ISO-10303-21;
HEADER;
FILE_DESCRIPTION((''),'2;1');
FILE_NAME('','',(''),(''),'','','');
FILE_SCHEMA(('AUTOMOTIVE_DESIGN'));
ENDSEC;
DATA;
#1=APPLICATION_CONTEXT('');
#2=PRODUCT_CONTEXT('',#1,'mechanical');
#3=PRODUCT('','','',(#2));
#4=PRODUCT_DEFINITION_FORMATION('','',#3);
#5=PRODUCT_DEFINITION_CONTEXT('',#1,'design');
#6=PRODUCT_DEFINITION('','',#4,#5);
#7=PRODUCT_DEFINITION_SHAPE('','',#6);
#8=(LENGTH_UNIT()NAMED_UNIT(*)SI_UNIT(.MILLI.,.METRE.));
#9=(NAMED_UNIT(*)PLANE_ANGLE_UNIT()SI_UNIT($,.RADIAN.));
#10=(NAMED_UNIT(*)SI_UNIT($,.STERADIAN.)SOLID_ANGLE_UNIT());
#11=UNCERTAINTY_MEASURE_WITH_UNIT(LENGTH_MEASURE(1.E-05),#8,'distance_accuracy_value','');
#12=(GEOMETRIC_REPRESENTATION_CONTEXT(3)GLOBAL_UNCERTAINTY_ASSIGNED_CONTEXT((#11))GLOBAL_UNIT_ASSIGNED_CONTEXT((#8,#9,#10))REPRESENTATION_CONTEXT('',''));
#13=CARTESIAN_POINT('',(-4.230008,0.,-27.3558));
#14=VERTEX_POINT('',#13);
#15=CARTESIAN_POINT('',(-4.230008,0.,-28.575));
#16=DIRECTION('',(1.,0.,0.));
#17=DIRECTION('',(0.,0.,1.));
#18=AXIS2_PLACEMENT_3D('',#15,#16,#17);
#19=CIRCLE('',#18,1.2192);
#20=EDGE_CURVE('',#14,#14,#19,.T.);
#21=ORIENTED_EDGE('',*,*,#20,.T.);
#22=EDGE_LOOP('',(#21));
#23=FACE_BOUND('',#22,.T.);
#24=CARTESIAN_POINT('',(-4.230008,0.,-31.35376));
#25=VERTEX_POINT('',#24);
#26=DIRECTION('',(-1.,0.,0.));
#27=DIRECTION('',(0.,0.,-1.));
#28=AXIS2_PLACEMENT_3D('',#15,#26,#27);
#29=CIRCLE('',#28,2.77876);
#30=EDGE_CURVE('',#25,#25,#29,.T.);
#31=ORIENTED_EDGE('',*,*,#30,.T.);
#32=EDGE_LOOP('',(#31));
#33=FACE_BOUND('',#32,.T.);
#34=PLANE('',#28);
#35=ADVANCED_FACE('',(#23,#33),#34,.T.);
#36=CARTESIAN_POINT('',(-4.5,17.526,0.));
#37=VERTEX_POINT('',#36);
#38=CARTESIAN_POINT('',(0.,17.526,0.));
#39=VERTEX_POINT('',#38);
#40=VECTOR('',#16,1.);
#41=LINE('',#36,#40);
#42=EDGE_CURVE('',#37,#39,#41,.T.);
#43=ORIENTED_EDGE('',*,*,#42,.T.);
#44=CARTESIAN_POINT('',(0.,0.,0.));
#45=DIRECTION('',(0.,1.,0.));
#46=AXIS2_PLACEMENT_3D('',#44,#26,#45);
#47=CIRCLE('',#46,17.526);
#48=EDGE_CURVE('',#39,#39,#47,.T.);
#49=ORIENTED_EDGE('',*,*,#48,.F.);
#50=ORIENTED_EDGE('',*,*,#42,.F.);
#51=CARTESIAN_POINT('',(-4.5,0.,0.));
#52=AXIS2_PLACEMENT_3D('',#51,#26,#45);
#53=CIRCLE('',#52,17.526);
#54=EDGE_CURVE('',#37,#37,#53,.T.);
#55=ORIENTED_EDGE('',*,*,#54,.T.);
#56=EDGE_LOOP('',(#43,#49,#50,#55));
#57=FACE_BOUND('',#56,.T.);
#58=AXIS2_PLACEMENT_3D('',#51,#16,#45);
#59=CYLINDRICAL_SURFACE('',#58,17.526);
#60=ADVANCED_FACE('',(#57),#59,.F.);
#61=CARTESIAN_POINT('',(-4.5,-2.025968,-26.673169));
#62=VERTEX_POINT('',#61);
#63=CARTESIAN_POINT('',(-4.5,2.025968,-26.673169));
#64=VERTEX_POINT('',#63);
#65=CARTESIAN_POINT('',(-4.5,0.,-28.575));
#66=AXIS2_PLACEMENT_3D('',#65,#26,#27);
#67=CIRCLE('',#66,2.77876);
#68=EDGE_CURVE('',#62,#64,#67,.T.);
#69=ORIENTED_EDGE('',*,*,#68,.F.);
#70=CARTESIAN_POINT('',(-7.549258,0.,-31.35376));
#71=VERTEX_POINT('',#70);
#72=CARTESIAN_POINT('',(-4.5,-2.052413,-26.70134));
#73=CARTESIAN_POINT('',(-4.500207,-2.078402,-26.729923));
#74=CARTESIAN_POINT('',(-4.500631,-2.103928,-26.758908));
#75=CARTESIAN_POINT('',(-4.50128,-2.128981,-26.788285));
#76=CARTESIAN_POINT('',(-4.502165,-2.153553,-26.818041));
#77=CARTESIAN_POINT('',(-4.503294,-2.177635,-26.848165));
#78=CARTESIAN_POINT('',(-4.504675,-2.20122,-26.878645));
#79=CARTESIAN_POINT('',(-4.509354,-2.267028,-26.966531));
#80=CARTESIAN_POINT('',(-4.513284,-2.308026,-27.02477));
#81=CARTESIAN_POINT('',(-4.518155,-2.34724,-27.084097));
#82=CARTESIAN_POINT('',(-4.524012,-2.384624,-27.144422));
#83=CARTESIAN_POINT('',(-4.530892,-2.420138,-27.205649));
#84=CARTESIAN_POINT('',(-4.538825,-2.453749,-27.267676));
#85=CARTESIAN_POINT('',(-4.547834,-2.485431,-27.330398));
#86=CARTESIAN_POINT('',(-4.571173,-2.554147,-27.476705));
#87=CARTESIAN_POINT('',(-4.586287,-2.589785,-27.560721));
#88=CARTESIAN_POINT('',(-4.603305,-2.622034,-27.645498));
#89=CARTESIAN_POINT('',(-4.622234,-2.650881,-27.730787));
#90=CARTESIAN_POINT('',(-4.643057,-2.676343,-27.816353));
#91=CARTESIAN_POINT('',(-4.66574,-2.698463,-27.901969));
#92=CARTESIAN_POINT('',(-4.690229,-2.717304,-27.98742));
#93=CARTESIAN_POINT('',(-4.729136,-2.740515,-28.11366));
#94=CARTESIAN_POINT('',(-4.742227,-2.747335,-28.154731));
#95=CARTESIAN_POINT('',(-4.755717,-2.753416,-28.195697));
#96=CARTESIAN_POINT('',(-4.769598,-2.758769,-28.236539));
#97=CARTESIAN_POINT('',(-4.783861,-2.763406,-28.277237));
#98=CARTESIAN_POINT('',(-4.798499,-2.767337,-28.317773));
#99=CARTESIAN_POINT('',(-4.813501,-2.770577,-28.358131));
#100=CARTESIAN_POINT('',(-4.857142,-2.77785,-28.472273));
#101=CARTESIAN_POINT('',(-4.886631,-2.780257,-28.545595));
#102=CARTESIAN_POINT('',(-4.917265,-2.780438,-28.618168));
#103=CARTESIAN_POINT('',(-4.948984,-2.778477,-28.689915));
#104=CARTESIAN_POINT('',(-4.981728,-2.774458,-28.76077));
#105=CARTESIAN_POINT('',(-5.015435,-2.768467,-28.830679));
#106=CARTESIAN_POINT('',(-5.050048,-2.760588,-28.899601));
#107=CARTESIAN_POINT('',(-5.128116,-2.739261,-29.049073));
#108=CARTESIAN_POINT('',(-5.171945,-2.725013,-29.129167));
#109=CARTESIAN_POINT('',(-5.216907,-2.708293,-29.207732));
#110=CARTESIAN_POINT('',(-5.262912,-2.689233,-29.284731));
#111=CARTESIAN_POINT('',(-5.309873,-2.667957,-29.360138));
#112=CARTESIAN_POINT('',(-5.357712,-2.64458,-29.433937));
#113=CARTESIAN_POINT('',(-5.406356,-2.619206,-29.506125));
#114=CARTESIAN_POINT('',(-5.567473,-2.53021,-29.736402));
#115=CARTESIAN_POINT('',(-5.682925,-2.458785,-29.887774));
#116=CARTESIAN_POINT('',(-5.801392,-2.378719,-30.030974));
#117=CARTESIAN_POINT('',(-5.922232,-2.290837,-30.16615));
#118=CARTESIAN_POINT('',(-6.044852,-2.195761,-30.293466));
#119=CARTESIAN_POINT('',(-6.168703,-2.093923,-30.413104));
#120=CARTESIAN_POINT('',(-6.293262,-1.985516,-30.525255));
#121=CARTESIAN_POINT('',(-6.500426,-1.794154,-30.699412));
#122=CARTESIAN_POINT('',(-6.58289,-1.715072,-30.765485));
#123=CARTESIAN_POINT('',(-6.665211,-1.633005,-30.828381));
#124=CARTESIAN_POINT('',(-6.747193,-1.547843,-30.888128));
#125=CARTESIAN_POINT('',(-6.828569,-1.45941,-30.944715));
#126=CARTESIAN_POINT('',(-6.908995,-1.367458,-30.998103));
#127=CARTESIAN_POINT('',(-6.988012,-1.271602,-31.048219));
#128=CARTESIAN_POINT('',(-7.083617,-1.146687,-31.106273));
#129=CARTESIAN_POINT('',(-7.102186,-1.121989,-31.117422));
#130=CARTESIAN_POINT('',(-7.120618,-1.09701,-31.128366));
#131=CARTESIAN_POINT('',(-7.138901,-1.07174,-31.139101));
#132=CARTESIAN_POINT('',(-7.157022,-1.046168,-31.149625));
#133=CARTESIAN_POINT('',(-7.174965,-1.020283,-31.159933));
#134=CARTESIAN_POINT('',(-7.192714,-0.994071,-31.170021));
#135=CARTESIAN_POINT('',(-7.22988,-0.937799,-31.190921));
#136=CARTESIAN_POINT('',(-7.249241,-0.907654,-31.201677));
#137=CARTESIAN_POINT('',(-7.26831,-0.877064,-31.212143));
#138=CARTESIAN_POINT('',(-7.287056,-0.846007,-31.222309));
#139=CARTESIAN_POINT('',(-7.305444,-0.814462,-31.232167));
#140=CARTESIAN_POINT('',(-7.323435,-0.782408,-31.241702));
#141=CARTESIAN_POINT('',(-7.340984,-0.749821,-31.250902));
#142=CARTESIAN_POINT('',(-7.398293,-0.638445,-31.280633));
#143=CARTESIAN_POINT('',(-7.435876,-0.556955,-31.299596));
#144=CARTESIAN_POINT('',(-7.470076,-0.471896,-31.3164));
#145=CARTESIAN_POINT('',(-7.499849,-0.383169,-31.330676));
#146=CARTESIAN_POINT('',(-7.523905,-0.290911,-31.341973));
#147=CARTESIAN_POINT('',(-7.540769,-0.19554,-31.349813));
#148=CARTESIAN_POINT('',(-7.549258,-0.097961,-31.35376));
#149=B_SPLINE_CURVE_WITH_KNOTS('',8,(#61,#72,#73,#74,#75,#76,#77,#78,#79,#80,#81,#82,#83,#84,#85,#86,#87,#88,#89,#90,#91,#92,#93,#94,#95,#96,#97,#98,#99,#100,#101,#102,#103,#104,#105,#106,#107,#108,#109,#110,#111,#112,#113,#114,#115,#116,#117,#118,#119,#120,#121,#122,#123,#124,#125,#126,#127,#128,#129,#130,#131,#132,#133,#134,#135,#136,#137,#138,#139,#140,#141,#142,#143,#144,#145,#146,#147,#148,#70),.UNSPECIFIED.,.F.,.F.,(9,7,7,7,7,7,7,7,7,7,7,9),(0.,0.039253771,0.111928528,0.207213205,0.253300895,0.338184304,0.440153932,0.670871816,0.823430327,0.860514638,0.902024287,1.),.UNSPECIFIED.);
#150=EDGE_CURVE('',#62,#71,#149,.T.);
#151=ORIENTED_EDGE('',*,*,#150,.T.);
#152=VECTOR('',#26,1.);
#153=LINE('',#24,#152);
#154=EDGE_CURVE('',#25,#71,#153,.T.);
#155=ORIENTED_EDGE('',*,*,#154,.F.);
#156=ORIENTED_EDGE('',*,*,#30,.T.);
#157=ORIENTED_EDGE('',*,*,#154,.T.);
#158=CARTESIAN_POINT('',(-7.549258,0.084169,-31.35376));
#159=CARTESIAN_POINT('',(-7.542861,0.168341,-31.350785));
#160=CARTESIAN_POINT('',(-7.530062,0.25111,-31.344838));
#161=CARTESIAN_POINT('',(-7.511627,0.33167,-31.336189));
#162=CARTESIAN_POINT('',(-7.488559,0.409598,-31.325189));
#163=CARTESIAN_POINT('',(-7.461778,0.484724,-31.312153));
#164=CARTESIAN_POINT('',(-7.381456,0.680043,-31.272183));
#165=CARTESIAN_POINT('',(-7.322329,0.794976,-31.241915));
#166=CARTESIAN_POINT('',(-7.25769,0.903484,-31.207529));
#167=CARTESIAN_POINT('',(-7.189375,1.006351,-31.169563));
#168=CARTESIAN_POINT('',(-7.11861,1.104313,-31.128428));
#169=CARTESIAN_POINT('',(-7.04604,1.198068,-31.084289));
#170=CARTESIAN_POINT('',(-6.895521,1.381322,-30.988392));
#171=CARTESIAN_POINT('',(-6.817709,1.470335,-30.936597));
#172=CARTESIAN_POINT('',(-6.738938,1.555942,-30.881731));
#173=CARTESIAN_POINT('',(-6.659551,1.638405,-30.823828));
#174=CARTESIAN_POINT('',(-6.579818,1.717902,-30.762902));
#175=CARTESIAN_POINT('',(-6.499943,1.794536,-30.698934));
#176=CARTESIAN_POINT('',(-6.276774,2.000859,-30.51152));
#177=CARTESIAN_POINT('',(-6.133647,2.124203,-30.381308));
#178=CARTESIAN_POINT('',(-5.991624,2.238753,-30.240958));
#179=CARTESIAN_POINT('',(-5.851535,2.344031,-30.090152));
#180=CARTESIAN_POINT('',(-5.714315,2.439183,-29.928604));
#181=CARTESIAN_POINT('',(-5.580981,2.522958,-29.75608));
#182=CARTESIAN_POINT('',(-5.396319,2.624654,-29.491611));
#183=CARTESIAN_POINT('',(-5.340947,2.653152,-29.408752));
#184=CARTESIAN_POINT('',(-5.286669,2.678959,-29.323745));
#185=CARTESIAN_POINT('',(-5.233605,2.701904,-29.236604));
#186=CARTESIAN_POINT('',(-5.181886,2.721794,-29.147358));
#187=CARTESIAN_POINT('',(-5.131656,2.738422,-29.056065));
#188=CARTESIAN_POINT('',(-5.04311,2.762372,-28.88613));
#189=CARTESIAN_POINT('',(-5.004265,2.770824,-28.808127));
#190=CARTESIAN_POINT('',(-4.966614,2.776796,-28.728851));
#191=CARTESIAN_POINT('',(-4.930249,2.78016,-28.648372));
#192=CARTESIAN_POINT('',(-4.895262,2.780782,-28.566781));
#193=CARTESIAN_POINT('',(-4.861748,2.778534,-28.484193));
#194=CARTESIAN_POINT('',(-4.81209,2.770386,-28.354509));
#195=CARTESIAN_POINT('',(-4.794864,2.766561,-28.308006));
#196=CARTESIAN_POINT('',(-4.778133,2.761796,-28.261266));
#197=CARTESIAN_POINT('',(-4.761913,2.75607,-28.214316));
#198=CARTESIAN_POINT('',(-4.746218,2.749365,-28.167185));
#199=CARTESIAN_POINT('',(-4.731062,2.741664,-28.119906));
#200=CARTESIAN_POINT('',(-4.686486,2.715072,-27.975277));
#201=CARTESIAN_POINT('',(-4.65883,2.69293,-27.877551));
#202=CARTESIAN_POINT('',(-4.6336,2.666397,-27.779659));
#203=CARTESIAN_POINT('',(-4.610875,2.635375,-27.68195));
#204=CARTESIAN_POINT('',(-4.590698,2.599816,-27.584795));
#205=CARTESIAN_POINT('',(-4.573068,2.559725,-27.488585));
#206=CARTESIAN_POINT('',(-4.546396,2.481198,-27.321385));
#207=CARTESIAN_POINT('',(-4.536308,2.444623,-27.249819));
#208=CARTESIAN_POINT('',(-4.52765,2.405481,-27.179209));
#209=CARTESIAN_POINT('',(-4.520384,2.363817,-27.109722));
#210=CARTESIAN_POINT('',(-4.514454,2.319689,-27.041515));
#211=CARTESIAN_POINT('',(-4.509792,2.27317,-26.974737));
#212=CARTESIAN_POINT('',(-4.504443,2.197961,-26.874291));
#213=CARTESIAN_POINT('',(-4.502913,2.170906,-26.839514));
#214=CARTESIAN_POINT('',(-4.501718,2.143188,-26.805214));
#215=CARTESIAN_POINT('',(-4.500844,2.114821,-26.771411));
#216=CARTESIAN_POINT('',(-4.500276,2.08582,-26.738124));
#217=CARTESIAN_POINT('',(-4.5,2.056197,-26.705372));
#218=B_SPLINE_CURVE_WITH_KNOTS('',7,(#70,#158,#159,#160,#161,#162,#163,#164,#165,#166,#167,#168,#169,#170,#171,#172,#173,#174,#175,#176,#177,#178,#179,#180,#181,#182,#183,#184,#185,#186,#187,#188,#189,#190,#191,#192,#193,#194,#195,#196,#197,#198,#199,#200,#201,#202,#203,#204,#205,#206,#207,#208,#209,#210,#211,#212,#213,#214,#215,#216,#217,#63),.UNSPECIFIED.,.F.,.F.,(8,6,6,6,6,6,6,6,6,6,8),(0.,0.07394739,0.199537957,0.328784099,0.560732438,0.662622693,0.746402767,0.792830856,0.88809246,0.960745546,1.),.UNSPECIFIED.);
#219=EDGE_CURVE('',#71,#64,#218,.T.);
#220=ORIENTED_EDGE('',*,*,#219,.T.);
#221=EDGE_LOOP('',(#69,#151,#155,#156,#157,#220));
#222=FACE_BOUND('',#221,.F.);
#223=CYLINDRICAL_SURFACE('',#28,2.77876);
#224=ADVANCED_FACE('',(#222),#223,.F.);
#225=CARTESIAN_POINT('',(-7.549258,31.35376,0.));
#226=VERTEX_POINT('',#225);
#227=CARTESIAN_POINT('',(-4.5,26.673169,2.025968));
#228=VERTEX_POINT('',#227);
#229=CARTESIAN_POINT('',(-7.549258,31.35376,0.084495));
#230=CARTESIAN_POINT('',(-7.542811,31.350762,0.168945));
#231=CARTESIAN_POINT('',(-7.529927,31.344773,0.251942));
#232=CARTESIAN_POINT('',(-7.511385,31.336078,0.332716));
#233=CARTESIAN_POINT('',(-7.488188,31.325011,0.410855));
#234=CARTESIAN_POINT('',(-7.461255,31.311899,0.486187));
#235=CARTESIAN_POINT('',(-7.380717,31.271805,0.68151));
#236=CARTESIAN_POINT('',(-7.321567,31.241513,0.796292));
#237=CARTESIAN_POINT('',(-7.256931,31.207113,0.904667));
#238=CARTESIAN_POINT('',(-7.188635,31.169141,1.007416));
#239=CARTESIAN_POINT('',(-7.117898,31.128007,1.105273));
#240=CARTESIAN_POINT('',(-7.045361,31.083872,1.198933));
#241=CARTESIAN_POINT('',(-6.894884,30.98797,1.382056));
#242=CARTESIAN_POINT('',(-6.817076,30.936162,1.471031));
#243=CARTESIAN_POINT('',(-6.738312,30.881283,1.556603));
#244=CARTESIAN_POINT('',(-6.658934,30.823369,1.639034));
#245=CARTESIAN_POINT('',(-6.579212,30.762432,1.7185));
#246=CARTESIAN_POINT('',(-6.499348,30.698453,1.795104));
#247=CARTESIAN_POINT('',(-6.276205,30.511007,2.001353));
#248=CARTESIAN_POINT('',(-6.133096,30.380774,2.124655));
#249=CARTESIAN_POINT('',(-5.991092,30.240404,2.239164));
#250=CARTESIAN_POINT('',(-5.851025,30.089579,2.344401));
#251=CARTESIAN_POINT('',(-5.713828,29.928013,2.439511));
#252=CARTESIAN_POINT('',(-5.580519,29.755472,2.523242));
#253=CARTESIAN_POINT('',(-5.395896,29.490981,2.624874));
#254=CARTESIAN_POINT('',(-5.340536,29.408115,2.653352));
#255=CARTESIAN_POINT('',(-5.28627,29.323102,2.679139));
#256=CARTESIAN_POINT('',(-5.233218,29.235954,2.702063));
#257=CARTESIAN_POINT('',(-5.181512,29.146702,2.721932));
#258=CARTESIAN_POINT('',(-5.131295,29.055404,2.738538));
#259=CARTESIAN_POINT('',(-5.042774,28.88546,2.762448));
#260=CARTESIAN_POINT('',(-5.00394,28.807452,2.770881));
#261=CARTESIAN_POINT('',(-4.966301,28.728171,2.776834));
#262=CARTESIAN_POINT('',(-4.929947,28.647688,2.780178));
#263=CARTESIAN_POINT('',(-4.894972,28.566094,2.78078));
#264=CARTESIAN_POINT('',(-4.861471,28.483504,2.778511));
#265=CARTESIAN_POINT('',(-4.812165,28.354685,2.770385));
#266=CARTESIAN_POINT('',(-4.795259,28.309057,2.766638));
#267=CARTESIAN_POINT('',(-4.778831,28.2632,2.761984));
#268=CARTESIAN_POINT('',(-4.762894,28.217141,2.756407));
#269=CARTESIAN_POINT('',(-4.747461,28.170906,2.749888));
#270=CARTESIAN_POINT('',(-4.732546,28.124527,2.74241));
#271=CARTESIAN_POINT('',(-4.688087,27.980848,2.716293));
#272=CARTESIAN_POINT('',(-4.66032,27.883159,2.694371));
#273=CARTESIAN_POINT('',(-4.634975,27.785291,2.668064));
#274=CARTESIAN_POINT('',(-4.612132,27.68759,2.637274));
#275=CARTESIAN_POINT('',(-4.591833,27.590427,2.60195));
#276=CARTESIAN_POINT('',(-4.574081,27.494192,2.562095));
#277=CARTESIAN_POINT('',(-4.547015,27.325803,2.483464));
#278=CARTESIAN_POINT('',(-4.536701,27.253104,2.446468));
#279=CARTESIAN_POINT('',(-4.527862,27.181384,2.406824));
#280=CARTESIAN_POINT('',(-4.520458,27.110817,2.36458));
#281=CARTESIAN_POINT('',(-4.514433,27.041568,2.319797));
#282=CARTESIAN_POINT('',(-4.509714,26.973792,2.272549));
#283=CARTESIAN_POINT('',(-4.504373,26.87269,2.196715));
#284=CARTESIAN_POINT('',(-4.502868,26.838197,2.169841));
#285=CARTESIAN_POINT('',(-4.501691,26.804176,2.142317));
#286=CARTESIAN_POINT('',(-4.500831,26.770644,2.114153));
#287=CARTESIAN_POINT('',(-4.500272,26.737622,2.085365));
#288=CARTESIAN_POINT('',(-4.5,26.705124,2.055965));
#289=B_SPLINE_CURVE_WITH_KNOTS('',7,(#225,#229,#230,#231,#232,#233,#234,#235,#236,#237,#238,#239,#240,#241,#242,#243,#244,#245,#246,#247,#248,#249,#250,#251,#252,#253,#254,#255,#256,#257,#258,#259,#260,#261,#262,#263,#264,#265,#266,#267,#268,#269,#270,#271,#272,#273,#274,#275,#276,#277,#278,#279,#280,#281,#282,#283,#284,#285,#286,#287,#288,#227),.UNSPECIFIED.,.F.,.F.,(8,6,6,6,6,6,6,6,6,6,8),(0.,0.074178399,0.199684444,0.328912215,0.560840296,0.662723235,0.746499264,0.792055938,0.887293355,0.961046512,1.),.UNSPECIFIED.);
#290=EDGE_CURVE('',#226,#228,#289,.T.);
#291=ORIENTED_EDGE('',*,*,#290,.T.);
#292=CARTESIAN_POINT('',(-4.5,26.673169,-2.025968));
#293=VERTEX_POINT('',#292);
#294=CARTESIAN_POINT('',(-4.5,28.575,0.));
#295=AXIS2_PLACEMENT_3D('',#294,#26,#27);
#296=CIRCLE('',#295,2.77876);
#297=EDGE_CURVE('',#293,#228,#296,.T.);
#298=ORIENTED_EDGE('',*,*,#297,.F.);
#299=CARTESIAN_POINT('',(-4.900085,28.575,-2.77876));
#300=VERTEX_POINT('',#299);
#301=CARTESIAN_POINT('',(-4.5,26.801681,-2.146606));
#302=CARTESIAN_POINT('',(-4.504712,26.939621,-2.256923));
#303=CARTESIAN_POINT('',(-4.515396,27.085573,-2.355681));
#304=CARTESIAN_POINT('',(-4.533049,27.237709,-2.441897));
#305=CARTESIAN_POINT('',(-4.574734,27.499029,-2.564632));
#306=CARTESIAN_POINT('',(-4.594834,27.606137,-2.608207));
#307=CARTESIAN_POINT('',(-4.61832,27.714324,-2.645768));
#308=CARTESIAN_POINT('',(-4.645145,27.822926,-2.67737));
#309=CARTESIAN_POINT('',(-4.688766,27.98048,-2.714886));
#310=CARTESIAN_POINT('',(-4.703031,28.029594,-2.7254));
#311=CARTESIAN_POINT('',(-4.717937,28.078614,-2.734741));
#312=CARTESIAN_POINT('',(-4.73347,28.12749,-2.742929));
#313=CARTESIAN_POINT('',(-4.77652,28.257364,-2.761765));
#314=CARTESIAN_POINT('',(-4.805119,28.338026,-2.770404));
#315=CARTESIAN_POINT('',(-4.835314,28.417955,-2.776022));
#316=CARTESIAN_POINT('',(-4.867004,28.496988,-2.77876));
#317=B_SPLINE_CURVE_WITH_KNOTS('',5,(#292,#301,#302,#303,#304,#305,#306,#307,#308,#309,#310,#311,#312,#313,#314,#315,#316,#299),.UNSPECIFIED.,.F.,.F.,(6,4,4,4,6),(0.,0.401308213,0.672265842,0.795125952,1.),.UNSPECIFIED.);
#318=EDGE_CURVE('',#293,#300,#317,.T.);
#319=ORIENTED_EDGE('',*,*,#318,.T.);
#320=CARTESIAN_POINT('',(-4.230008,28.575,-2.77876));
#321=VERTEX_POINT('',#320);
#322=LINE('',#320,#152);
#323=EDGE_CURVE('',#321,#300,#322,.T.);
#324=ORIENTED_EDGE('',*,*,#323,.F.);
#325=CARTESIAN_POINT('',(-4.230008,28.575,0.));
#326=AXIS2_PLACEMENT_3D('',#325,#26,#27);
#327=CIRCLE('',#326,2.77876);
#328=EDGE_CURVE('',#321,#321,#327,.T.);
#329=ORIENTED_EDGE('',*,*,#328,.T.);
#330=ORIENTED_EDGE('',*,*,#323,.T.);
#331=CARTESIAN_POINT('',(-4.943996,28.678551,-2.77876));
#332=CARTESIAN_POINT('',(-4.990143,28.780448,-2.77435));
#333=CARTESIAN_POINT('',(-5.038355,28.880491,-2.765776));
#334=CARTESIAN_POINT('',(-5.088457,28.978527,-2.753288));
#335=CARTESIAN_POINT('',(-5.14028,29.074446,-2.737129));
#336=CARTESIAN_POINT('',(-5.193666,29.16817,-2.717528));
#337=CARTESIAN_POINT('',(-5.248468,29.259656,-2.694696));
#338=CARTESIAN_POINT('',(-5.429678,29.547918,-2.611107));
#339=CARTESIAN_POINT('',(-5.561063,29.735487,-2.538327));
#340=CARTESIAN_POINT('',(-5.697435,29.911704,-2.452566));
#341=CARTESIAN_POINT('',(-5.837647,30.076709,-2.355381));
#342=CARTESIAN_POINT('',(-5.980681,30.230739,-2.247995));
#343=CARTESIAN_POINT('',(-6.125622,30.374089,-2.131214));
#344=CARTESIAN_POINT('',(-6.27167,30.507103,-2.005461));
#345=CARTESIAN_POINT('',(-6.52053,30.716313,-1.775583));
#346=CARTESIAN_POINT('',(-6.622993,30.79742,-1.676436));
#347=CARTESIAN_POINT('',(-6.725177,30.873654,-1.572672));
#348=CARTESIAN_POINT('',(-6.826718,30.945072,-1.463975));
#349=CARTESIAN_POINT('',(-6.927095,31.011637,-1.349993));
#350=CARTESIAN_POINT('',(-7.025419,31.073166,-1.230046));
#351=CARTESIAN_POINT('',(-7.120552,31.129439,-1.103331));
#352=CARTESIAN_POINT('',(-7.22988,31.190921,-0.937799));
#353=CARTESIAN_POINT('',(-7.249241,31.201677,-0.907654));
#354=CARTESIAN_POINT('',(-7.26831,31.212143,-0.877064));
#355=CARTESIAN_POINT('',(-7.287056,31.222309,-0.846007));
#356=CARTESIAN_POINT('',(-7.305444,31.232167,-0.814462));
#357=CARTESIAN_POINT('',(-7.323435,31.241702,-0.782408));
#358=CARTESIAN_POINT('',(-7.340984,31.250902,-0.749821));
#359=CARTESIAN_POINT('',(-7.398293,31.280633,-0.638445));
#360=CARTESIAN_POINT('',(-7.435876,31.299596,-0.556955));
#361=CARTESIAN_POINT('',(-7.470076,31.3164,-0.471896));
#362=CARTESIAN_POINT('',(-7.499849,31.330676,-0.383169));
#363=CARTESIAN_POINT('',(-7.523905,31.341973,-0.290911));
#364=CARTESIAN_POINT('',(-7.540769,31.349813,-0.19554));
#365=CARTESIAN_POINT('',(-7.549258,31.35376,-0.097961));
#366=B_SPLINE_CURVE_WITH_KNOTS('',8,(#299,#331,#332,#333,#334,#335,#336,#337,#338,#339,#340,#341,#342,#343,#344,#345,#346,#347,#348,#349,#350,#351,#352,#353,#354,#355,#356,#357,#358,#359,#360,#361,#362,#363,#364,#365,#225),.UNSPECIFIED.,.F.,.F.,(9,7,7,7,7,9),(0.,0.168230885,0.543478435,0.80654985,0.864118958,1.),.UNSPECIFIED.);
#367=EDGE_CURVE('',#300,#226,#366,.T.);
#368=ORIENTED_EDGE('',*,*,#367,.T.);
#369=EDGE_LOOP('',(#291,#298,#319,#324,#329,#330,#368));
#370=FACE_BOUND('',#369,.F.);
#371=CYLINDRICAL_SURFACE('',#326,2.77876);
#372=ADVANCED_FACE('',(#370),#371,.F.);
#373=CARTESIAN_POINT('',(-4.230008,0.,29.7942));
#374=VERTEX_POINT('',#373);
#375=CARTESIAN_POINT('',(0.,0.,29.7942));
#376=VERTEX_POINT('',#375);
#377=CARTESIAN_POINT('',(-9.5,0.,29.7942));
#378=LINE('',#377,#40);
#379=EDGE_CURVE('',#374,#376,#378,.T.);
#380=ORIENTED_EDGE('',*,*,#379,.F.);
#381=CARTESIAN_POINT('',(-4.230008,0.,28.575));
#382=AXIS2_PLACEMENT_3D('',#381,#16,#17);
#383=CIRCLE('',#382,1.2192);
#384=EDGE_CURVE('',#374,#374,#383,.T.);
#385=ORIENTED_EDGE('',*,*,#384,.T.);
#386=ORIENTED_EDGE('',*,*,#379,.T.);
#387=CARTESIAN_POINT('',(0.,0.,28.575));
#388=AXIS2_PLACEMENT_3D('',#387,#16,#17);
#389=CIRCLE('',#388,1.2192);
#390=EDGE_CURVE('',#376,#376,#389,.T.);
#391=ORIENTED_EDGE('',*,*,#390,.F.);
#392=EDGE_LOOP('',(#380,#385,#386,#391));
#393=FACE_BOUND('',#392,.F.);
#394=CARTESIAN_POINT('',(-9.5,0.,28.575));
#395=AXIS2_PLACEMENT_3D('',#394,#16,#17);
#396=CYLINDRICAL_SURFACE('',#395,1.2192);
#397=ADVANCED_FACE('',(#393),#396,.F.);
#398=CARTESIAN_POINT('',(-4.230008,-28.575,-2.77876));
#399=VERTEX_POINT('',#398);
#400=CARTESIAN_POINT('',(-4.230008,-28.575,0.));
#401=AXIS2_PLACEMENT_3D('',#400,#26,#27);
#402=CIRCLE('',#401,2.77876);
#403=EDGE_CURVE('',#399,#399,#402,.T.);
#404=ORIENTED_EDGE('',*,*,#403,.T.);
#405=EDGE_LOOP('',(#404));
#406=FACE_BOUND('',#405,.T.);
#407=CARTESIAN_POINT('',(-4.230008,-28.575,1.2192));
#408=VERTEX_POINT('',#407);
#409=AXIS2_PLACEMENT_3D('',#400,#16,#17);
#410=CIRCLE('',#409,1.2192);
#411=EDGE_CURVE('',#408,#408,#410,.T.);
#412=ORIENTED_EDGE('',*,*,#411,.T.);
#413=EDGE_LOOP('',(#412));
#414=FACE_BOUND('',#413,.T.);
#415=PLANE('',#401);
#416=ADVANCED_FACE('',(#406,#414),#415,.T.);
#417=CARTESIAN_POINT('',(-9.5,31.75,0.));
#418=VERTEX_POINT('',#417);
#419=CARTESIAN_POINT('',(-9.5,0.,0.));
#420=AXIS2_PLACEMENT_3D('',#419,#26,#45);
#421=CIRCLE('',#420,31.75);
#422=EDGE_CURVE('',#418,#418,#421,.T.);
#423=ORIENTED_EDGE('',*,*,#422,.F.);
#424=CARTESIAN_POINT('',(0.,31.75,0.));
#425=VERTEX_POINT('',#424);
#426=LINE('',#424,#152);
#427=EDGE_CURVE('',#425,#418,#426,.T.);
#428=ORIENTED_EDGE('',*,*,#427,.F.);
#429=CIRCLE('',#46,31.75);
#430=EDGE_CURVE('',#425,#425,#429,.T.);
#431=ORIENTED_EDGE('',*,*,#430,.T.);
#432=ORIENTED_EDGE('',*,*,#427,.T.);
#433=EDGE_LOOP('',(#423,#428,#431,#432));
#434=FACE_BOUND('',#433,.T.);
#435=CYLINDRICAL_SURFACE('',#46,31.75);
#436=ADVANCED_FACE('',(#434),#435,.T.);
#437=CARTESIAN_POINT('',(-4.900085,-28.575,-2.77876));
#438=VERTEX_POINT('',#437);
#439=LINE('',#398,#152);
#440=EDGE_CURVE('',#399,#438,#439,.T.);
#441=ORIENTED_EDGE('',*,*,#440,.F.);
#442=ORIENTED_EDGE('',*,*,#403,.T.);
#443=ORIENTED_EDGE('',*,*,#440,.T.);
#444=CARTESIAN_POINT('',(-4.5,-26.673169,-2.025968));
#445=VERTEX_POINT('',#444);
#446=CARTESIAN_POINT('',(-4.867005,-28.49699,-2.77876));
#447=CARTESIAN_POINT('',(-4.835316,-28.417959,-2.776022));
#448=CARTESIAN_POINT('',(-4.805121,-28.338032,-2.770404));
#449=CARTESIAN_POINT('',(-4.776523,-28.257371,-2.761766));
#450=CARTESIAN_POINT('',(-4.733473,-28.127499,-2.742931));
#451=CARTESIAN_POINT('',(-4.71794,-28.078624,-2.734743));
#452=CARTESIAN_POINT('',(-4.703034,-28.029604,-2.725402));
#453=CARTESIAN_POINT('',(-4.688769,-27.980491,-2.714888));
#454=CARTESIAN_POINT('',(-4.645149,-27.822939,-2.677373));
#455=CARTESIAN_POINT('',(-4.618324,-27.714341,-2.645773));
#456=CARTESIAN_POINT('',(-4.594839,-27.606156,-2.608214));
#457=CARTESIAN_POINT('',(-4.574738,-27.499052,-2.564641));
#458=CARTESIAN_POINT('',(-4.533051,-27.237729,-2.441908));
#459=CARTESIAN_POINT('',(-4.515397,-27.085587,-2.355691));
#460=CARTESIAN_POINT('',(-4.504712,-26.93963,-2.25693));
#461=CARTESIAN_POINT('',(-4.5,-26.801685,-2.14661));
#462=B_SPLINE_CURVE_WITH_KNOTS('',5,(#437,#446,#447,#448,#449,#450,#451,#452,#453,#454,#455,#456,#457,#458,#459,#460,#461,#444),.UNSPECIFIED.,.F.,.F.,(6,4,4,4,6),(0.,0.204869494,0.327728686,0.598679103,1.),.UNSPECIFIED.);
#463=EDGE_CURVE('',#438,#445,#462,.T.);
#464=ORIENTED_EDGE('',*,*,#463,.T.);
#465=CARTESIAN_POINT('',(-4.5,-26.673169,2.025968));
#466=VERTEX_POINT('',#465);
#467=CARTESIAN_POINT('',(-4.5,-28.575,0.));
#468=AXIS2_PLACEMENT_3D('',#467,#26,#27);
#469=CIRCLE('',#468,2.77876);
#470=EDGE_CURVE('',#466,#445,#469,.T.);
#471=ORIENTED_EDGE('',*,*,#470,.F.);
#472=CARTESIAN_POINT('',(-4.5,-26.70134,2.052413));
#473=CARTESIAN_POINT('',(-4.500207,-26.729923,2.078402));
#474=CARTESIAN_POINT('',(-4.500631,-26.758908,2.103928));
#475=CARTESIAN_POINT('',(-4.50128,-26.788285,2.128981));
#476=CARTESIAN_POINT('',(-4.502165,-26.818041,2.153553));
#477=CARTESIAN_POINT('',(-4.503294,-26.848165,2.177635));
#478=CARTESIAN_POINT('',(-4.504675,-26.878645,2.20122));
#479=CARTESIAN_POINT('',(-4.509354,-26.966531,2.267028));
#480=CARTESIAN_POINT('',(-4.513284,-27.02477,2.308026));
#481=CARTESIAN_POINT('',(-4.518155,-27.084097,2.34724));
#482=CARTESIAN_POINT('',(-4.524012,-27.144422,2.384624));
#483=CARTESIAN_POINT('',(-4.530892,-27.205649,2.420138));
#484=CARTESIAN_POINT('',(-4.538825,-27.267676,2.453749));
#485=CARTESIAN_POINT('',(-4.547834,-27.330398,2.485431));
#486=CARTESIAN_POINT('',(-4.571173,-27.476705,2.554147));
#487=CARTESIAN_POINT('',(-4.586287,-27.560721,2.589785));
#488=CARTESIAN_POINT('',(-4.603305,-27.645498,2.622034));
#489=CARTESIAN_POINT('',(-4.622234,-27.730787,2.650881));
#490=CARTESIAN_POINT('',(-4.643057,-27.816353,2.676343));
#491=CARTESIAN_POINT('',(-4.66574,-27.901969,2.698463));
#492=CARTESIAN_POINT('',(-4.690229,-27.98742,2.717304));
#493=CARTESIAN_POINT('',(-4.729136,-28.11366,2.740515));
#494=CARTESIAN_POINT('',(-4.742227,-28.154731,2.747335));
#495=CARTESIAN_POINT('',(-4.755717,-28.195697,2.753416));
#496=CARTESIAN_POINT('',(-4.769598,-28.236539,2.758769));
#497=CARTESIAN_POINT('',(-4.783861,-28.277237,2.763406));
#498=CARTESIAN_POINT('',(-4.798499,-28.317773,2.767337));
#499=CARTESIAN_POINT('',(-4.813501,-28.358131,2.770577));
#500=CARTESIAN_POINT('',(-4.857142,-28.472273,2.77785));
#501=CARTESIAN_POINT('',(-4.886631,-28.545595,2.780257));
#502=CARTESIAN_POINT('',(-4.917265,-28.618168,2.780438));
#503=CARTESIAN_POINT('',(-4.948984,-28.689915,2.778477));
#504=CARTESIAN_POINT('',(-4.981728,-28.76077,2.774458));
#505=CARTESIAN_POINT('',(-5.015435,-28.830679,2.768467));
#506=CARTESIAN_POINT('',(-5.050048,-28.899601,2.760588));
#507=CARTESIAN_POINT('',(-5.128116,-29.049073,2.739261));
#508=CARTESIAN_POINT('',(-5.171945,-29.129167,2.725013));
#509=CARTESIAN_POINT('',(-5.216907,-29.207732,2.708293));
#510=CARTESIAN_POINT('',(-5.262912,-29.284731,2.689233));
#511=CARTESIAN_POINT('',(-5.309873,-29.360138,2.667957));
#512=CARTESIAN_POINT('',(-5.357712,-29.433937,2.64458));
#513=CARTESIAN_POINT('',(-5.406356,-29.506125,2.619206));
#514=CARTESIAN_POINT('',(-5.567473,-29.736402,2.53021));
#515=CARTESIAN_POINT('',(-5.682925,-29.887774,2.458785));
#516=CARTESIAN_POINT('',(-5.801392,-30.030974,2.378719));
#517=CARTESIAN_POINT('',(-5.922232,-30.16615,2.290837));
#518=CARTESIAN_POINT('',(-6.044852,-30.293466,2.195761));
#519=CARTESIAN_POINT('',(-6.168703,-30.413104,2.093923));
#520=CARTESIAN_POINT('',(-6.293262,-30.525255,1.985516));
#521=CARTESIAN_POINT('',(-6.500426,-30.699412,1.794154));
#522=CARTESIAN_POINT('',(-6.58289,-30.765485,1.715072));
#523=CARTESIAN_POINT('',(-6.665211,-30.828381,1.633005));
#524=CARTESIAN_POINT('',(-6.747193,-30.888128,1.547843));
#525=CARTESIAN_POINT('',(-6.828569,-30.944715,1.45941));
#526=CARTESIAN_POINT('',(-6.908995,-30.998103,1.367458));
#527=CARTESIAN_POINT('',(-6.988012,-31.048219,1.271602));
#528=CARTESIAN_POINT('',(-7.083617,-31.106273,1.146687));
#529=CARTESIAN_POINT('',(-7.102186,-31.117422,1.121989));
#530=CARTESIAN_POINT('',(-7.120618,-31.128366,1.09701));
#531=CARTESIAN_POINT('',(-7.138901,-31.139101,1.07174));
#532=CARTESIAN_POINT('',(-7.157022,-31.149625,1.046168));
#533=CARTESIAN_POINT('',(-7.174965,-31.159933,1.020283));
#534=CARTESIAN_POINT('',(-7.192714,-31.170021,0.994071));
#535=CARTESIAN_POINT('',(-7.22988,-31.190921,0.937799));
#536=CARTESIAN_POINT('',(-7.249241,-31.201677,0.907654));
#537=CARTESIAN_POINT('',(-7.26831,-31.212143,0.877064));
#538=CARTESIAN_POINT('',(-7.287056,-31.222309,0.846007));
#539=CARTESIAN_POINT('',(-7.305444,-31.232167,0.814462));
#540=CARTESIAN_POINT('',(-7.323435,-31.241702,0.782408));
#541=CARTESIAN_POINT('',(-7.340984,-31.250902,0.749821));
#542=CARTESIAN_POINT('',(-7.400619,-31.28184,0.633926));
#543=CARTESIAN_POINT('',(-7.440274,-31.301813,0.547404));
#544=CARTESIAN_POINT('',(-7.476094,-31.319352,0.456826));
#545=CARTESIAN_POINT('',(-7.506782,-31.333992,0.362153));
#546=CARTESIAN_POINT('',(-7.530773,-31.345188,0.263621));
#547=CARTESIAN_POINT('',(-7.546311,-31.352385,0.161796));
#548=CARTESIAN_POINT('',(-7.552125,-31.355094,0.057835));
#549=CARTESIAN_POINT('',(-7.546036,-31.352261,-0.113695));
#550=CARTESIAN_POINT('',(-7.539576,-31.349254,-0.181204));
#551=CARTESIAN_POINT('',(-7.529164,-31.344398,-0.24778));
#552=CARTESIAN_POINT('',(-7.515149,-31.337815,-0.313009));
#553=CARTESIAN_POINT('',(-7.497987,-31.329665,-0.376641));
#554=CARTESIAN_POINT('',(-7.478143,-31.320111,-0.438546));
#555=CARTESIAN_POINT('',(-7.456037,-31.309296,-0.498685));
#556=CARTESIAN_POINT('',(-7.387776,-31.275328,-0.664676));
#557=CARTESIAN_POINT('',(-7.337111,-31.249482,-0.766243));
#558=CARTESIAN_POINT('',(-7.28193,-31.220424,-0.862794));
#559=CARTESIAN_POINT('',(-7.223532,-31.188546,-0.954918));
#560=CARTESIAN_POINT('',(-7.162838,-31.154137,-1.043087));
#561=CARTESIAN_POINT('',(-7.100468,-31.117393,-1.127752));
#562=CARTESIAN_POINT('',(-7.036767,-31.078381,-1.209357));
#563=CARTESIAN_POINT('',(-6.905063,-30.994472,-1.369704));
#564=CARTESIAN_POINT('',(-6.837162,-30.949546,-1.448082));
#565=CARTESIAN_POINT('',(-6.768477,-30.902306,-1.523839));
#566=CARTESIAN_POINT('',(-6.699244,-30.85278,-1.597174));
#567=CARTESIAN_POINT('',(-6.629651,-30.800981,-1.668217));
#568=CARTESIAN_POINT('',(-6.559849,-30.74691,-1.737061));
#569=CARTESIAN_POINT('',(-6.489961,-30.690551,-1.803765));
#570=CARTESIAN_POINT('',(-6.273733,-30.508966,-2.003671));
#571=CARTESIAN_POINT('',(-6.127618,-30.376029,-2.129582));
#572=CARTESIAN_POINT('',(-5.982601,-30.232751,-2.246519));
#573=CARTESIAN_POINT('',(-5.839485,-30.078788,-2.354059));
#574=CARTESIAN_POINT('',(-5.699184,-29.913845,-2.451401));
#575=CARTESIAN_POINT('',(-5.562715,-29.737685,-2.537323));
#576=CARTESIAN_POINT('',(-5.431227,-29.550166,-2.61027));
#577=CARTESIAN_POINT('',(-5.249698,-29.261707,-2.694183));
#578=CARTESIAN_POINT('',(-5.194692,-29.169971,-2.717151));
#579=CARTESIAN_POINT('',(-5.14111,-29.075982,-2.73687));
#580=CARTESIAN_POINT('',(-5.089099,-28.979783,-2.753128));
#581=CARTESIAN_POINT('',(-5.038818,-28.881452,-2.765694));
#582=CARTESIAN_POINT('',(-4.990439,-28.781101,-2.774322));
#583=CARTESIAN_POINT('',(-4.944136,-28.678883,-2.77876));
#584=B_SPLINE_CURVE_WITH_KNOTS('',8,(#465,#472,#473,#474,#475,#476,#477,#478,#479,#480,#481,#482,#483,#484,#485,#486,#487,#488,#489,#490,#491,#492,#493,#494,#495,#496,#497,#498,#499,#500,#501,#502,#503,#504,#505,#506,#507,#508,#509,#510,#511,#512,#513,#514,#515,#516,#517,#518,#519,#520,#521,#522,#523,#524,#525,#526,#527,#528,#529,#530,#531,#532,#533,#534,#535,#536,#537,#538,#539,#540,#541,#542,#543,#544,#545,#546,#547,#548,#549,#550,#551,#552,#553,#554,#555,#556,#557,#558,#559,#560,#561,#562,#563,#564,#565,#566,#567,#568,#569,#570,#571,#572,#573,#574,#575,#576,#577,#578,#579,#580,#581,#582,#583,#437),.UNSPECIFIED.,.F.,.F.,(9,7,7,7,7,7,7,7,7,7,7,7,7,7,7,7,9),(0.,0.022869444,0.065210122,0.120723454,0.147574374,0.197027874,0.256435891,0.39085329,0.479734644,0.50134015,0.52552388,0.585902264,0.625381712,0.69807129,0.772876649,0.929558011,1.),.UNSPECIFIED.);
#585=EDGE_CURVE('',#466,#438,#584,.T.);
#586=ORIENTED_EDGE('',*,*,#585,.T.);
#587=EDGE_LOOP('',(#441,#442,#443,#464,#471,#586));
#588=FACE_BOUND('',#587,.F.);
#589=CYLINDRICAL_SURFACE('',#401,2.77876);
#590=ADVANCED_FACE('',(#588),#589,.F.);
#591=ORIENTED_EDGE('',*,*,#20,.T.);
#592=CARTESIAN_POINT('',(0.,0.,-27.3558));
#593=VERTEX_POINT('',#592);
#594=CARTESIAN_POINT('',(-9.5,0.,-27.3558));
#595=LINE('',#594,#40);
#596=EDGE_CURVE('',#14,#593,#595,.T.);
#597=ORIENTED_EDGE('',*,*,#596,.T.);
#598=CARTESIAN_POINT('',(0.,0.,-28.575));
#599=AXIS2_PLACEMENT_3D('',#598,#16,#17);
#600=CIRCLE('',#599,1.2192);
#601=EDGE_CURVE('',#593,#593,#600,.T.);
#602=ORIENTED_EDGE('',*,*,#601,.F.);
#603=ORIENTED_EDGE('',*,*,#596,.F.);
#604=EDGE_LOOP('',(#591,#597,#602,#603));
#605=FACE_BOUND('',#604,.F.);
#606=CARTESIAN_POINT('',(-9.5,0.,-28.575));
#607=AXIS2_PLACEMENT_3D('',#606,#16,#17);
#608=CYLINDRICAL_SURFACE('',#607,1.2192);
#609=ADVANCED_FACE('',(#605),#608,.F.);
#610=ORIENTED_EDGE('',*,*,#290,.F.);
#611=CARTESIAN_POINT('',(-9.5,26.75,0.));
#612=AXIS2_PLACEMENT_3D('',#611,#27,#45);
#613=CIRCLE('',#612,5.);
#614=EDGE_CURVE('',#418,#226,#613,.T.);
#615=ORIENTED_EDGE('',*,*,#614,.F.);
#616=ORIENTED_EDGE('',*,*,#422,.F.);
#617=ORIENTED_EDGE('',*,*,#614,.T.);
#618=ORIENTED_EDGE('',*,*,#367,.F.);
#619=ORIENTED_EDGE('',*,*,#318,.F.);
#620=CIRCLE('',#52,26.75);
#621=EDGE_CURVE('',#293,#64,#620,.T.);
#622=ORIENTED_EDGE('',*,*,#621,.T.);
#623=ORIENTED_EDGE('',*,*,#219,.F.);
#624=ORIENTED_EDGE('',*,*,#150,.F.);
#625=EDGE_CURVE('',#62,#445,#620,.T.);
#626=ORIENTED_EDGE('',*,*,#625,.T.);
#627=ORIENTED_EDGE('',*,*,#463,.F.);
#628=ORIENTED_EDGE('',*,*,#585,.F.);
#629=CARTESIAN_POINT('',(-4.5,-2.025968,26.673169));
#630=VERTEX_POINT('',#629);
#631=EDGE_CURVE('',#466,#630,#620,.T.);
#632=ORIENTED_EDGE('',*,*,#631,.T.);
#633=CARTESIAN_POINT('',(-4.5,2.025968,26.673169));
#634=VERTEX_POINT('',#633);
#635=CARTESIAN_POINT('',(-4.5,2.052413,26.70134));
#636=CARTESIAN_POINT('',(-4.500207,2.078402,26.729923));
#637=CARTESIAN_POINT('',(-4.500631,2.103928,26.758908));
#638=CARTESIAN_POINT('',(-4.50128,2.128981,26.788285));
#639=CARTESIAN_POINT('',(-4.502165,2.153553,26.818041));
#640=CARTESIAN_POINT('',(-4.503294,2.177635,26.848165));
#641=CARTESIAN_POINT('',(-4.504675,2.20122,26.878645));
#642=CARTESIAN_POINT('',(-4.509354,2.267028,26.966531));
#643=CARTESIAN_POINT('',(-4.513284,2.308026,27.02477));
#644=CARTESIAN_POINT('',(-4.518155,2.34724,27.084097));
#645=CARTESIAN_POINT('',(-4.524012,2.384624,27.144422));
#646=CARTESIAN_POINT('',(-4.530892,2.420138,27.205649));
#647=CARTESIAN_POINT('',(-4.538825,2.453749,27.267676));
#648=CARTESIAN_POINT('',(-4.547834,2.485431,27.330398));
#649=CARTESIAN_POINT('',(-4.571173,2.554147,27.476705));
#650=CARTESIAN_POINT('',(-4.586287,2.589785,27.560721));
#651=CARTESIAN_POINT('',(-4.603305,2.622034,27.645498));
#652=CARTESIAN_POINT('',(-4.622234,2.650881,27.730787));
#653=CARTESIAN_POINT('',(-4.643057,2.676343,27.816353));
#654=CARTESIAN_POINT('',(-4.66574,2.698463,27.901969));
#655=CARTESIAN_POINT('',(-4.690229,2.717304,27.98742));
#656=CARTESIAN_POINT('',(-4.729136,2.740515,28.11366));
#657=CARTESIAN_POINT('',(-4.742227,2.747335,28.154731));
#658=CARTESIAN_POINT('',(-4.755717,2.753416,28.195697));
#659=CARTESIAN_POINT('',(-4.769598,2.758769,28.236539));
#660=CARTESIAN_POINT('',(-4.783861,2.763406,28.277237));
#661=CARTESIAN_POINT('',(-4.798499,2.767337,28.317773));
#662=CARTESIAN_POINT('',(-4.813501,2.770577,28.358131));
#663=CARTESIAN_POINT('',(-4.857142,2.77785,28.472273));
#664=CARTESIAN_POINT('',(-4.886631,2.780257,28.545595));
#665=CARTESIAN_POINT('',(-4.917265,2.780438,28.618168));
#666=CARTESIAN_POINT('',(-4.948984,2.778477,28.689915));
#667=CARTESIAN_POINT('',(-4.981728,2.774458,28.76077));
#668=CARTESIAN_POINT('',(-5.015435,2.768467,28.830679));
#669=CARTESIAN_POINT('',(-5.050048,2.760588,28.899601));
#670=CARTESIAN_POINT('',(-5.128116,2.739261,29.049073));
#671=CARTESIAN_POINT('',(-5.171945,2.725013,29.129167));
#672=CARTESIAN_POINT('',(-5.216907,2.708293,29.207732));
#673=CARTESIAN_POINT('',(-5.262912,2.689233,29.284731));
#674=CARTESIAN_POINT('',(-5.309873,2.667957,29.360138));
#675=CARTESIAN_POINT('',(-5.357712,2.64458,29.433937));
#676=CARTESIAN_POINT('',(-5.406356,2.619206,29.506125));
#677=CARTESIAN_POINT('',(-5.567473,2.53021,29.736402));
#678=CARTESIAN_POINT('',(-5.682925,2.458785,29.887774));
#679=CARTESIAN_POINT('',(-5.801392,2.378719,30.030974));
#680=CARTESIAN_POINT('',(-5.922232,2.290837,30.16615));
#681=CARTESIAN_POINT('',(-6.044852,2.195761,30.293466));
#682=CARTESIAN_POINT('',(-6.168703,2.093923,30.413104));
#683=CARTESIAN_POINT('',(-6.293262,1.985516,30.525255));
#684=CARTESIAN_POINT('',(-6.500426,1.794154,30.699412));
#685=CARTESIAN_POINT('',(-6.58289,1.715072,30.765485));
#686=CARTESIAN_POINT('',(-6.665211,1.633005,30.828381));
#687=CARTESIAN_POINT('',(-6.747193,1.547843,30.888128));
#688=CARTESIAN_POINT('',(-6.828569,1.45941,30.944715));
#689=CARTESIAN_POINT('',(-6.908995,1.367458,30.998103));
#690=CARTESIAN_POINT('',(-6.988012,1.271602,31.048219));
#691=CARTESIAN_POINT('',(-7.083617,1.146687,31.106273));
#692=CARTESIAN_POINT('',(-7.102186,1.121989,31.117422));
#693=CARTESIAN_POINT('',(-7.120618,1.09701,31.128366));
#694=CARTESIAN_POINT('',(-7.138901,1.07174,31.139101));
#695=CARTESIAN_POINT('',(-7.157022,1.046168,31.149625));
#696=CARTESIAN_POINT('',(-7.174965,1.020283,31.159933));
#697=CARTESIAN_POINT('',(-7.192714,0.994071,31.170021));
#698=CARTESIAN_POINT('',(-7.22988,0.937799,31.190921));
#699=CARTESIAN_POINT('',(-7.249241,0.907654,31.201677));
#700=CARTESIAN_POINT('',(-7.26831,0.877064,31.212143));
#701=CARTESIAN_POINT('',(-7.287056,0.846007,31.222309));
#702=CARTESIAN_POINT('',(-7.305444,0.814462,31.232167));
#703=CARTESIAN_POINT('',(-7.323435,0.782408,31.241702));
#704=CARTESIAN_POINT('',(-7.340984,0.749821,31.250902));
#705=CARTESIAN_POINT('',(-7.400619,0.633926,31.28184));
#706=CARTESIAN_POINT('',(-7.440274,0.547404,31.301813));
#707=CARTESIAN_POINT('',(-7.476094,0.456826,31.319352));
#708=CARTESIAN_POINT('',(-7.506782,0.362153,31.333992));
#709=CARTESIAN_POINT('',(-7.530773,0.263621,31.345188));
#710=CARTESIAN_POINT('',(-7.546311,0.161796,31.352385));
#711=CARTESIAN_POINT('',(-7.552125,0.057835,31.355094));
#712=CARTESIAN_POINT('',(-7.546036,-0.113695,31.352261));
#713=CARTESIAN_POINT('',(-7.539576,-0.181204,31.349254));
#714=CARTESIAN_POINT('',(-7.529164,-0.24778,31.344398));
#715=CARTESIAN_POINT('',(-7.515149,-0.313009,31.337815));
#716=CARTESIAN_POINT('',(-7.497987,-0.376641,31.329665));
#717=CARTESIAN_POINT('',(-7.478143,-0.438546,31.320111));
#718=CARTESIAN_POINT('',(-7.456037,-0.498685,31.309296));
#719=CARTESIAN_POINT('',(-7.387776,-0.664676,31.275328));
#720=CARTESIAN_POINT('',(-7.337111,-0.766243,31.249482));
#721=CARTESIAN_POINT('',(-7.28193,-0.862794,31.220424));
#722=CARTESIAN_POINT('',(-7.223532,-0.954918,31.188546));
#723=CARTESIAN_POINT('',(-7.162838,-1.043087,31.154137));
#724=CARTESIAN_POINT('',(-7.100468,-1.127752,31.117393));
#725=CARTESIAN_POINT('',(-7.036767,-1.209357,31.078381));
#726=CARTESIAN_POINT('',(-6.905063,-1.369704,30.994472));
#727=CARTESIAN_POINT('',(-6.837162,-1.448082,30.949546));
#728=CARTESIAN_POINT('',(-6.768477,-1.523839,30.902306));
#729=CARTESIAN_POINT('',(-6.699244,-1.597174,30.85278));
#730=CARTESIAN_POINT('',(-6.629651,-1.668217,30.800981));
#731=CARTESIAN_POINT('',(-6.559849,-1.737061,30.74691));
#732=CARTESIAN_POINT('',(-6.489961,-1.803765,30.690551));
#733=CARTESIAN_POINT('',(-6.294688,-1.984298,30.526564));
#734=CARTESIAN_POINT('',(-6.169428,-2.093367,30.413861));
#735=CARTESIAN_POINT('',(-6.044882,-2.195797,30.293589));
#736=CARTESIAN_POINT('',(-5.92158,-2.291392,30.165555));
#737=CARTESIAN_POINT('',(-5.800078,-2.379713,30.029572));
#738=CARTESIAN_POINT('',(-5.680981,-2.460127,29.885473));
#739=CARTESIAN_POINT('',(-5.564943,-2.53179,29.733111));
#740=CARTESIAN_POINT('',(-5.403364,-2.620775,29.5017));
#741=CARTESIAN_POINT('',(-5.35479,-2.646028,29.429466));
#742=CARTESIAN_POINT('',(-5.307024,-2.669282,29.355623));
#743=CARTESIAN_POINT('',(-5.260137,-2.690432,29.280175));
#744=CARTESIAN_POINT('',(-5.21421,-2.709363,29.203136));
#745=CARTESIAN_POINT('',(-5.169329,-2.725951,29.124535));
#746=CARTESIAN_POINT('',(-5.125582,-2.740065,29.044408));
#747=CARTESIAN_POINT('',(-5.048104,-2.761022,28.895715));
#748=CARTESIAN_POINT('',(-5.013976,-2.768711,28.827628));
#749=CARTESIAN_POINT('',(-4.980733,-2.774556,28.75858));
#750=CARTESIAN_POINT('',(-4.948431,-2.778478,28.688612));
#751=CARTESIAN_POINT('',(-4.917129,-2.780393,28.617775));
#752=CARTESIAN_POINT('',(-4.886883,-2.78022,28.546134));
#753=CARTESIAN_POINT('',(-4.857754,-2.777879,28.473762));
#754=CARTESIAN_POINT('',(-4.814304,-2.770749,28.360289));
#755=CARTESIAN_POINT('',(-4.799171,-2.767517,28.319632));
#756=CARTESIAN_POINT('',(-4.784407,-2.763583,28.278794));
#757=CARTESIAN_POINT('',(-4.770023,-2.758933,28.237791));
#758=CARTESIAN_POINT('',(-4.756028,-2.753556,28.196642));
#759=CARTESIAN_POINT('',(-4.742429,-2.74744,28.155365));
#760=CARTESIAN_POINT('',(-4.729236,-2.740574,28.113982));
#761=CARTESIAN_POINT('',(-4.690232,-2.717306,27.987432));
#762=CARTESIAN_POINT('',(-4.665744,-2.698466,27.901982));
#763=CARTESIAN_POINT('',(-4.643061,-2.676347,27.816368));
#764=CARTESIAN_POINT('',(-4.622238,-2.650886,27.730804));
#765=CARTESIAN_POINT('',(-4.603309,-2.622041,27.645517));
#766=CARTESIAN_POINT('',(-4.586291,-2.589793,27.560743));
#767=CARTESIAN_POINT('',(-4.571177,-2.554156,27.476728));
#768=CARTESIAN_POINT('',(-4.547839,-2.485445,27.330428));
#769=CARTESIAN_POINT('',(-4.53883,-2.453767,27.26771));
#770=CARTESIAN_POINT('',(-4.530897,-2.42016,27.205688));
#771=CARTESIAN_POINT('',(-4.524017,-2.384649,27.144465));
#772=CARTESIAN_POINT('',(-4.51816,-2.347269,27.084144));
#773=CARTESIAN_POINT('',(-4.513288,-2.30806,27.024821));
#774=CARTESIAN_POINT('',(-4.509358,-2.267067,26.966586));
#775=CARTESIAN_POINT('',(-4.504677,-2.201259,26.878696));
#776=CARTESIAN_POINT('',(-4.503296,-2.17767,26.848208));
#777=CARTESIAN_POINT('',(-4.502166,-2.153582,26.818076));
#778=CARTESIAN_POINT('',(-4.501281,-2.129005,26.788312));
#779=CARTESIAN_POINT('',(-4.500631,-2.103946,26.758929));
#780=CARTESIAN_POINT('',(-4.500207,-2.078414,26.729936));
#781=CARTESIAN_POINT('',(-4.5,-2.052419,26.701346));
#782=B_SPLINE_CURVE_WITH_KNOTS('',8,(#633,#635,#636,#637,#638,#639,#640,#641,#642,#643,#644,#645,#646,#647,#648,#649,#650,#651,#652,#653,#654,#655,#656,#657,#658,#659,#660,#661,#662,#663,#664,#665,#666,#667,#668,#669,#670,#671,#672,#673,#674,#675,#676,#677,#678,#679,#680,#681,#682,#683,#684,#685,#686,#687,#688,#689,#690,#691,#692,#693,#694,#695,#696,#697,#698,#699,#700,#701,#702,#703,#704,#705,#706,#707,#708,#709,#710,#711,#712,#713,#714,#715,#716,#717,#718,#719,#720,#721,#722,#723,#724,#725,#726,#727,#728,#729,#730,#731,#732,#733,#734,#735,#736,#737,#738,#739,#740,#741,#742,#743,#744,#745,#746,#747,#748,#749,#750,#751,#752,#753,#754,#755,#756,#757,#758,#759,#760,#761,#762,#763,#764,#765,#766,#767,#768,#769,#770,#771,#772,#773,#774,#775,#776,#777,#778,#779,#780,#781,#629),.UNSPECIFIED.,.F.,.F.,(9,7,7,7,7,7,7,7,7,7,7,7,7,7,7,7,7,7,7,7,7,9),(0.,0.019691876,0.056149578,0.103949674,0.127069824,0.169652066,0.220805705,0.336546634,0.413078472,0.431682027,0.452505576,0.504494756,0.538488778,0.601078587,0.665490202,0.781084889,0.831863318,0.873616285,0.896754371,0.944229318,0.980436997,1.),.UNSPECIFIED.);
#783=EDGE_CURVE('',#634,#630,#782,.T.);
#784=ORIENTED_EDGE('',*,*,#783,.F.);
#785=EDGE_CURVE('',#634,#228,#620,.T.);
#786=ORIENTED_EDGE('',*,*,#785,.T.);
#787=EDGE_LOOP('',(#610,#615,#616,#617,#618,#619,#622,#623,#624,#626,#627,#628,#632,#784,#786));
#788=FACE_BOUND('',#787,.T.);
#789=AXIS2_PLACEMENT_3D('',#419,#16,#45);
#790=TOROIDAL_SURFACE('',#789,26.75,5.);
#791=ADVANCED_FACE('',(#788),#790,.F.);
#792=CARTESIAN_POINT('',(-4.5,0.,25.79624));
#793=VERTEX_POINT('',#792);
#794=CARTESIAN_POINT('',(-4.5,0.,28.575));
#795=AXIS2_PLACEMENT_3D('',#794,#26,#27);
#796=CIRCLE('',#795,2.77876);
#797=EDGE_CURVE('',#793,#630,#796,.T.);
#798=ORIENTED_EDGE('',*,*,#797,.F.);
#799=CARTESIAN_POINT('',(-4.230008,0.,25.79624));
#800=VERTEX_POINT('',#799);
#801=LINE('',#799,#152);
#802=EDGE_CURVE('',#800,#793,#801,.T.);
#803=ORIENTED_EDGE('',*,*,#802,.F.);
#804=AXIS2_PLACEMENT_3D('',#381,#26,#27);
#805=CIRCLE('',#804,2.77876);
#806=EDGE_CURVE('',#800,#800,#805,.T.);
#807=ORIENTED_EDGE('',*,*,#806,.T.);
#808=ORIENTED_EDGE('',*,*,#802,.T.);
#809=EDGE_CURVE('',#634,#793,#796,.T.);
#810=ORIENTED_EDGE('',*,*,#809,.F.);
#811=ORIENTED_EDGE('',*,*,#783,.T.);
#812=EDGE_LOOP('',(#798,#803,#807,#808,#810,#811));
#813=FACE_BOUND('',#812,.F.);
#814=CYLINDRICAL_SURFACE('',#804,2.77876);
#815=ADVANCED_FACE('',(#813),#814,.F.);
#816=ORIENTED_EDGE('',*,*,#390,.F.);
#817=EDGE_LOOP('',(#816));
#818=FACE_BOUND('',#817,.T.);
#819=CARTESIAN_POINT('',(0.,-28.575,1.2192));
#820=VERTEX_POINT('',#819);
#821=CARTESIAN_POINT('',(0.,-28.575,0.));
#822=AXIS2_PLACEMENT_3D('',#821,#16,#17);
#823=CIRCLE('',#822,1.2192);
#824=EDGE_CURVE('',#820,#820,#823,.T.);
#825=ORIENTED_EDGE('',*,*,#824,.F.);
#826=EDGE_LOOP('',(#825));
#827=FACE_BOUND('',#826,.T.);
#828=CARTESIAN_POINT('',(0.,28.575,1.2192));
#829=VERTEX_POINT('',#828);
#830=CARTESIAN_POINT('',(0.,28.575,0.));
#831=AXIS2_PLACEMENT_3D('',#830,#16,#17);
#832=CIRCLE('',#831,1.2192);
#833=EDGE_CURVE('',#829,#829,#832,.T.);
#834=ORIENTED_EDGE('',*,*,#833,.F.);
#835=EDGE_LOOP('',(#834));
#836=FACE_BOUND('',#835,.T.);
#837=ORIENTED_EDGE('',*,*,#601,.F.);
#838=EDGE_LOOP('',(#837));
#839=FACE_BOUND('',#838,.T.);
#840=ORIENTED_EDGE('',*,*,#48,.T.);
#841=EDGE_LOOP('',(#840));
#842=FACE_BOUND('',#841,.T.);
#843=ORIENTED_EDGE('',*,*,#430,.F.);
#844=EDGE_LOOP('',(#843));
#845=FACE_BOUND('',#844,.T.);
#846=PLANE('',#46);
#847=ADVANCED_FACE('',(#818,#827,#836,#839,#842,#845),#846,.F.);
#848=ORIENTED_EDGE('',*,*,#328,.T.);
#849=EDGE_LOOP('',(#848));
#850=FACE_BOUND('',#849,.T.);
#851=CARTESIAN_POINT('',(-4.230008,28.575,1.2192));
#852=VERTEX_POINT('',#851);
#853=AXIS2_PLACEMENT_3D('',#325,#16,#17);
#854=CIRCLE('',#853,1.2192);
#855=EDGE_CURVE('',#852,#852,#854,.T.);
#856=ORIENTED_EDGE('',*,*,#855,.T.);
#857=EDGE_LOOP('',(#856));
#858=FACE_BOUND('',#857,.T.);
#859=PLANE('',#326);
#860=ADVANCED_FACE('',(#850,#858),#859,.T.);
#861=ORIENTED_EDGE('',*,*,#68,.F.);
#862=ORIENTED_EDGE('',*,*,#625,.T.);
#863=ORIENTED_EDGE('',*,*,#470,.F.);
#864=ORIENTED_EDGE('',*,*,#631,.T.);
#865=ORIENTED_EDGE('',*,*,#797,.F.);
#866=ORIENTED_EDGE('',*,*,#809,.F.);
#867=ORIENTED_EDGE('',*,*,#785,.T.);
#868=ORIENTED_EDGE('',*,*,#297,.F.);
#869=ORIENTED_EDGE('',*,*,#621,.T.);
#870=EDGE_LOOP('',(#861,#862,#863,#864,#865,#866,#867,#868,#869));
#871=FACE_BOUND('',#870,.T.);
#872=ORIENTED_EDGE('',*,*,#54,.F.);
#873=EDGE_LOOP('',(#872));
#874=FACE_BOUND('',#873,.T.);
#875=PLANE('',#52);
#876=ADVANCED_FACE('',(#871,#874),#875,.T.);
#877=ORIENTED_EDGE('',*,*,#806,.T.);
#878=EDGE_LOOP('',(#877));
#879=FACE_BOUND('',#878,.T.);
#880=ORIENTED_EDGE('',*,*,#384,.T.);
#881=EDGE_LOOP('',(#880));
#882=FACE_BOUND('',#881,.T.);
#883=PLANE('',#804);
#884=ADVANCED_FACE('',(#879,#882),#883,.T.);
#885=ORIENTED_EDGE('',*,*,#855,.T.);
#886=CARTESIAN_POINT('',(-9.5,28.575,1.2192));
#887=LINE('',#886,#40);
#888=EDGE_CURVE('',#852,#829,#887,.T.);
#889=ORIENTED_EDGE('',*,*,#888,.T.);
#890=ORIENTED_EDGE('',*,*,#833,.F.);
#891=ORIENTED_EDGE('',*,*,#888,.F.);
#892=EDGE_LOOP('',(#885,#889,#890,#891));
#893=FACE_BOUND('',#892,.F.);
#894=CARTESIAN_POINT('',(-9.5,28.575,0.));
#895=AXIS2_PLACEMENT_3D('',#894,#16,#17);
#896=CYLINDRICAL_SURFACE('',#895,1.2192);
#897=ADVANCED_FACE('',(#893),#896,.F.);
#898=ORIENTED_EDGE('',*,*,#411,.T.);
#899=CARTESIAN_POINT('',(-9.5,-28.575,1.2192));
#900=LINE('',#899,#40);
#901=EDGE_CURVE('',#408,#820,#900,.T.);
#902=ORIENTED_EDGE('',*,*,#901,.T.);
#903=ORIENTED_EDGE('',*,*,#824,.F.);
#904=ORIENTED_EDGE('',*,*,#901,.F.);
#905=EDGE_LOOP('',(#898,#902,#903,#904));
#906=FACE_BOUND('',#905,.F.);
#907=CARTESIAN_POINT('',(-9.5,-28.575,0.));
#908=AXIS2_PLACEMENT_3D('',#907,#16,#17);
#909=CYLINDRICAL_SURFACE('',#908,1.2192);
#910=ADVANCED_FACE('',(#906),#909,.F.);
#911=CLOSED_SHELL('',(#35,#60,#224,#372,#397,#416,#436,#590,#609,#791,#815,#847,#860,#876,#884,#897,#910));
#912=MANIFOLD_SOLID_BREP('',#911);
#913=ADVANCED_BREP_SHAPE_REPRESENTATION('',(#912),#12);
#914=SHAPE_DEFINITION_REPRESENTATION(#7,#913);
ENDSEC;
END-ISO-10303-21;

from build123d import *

# Parameters (mm, degrees)
CBORE_FOR_2_BINDING_HEAD_MACHINE_SCREW1_D           = 2.4384
CBORE_FOR_2_BINDING_HEAD_MACHINE_SCREW1_CBORE_D     = 5.55752
CBORE_FOR_2_BINDING_HEAD_MACHINE_SCREW1_CBORE_DEPTH = 5.269992


with BuildPart() as part:
    # Sketch13 → Revolve1 (revolve)
    with BuildSketch(Plane.XY, mode=Mode.PRIVATE) as revolve1_sk:
        with BuildLine():
            Line((0, -31.75), (-9.5, -31.75))
            ThreePointArc((-9.5, -31.75), (-5.964466094, -30.285533906), (-4.5, -26.75))
            Line((-4.5, -26.75), (-4.5, -17.526))
            Line((-4.5, -17.526), (0, -17.526))
            Line((0, -17.526), (0, -31.75))
        make_face()
    revolve(revolve1_sk.sketch.rotate(Axis((16.880780842, 0, 0), (-1, 0, 0)), 180), axis=Axis((16.880780842, 0, 0), (-1, 0, 0)))

    # CBORE for #2 Binding Head Machine Screw1 (through all)
    with Locations(Plane(origin=(-9.5, 0, 0), x_dir=(0, 0, -1), z_dir=(-1, 0, 0))):
        with Locations((-28.575, 0), (0, -28.575), (28.575, 0), (0, 28.575)):
            CounterBoreHole(CBORE_FOR_2_BINDING_HEAD_MACHINE_SCREW1_D / 2, CBORE_FOR_2_BINDING_HEAD_MACHINE_SCREW1_CBORE_D / 2, CBORE_FOR_2_BINDING_HEAD_MACHINE_SCREW1_CBORE_DEPTH)


solid = part.part
